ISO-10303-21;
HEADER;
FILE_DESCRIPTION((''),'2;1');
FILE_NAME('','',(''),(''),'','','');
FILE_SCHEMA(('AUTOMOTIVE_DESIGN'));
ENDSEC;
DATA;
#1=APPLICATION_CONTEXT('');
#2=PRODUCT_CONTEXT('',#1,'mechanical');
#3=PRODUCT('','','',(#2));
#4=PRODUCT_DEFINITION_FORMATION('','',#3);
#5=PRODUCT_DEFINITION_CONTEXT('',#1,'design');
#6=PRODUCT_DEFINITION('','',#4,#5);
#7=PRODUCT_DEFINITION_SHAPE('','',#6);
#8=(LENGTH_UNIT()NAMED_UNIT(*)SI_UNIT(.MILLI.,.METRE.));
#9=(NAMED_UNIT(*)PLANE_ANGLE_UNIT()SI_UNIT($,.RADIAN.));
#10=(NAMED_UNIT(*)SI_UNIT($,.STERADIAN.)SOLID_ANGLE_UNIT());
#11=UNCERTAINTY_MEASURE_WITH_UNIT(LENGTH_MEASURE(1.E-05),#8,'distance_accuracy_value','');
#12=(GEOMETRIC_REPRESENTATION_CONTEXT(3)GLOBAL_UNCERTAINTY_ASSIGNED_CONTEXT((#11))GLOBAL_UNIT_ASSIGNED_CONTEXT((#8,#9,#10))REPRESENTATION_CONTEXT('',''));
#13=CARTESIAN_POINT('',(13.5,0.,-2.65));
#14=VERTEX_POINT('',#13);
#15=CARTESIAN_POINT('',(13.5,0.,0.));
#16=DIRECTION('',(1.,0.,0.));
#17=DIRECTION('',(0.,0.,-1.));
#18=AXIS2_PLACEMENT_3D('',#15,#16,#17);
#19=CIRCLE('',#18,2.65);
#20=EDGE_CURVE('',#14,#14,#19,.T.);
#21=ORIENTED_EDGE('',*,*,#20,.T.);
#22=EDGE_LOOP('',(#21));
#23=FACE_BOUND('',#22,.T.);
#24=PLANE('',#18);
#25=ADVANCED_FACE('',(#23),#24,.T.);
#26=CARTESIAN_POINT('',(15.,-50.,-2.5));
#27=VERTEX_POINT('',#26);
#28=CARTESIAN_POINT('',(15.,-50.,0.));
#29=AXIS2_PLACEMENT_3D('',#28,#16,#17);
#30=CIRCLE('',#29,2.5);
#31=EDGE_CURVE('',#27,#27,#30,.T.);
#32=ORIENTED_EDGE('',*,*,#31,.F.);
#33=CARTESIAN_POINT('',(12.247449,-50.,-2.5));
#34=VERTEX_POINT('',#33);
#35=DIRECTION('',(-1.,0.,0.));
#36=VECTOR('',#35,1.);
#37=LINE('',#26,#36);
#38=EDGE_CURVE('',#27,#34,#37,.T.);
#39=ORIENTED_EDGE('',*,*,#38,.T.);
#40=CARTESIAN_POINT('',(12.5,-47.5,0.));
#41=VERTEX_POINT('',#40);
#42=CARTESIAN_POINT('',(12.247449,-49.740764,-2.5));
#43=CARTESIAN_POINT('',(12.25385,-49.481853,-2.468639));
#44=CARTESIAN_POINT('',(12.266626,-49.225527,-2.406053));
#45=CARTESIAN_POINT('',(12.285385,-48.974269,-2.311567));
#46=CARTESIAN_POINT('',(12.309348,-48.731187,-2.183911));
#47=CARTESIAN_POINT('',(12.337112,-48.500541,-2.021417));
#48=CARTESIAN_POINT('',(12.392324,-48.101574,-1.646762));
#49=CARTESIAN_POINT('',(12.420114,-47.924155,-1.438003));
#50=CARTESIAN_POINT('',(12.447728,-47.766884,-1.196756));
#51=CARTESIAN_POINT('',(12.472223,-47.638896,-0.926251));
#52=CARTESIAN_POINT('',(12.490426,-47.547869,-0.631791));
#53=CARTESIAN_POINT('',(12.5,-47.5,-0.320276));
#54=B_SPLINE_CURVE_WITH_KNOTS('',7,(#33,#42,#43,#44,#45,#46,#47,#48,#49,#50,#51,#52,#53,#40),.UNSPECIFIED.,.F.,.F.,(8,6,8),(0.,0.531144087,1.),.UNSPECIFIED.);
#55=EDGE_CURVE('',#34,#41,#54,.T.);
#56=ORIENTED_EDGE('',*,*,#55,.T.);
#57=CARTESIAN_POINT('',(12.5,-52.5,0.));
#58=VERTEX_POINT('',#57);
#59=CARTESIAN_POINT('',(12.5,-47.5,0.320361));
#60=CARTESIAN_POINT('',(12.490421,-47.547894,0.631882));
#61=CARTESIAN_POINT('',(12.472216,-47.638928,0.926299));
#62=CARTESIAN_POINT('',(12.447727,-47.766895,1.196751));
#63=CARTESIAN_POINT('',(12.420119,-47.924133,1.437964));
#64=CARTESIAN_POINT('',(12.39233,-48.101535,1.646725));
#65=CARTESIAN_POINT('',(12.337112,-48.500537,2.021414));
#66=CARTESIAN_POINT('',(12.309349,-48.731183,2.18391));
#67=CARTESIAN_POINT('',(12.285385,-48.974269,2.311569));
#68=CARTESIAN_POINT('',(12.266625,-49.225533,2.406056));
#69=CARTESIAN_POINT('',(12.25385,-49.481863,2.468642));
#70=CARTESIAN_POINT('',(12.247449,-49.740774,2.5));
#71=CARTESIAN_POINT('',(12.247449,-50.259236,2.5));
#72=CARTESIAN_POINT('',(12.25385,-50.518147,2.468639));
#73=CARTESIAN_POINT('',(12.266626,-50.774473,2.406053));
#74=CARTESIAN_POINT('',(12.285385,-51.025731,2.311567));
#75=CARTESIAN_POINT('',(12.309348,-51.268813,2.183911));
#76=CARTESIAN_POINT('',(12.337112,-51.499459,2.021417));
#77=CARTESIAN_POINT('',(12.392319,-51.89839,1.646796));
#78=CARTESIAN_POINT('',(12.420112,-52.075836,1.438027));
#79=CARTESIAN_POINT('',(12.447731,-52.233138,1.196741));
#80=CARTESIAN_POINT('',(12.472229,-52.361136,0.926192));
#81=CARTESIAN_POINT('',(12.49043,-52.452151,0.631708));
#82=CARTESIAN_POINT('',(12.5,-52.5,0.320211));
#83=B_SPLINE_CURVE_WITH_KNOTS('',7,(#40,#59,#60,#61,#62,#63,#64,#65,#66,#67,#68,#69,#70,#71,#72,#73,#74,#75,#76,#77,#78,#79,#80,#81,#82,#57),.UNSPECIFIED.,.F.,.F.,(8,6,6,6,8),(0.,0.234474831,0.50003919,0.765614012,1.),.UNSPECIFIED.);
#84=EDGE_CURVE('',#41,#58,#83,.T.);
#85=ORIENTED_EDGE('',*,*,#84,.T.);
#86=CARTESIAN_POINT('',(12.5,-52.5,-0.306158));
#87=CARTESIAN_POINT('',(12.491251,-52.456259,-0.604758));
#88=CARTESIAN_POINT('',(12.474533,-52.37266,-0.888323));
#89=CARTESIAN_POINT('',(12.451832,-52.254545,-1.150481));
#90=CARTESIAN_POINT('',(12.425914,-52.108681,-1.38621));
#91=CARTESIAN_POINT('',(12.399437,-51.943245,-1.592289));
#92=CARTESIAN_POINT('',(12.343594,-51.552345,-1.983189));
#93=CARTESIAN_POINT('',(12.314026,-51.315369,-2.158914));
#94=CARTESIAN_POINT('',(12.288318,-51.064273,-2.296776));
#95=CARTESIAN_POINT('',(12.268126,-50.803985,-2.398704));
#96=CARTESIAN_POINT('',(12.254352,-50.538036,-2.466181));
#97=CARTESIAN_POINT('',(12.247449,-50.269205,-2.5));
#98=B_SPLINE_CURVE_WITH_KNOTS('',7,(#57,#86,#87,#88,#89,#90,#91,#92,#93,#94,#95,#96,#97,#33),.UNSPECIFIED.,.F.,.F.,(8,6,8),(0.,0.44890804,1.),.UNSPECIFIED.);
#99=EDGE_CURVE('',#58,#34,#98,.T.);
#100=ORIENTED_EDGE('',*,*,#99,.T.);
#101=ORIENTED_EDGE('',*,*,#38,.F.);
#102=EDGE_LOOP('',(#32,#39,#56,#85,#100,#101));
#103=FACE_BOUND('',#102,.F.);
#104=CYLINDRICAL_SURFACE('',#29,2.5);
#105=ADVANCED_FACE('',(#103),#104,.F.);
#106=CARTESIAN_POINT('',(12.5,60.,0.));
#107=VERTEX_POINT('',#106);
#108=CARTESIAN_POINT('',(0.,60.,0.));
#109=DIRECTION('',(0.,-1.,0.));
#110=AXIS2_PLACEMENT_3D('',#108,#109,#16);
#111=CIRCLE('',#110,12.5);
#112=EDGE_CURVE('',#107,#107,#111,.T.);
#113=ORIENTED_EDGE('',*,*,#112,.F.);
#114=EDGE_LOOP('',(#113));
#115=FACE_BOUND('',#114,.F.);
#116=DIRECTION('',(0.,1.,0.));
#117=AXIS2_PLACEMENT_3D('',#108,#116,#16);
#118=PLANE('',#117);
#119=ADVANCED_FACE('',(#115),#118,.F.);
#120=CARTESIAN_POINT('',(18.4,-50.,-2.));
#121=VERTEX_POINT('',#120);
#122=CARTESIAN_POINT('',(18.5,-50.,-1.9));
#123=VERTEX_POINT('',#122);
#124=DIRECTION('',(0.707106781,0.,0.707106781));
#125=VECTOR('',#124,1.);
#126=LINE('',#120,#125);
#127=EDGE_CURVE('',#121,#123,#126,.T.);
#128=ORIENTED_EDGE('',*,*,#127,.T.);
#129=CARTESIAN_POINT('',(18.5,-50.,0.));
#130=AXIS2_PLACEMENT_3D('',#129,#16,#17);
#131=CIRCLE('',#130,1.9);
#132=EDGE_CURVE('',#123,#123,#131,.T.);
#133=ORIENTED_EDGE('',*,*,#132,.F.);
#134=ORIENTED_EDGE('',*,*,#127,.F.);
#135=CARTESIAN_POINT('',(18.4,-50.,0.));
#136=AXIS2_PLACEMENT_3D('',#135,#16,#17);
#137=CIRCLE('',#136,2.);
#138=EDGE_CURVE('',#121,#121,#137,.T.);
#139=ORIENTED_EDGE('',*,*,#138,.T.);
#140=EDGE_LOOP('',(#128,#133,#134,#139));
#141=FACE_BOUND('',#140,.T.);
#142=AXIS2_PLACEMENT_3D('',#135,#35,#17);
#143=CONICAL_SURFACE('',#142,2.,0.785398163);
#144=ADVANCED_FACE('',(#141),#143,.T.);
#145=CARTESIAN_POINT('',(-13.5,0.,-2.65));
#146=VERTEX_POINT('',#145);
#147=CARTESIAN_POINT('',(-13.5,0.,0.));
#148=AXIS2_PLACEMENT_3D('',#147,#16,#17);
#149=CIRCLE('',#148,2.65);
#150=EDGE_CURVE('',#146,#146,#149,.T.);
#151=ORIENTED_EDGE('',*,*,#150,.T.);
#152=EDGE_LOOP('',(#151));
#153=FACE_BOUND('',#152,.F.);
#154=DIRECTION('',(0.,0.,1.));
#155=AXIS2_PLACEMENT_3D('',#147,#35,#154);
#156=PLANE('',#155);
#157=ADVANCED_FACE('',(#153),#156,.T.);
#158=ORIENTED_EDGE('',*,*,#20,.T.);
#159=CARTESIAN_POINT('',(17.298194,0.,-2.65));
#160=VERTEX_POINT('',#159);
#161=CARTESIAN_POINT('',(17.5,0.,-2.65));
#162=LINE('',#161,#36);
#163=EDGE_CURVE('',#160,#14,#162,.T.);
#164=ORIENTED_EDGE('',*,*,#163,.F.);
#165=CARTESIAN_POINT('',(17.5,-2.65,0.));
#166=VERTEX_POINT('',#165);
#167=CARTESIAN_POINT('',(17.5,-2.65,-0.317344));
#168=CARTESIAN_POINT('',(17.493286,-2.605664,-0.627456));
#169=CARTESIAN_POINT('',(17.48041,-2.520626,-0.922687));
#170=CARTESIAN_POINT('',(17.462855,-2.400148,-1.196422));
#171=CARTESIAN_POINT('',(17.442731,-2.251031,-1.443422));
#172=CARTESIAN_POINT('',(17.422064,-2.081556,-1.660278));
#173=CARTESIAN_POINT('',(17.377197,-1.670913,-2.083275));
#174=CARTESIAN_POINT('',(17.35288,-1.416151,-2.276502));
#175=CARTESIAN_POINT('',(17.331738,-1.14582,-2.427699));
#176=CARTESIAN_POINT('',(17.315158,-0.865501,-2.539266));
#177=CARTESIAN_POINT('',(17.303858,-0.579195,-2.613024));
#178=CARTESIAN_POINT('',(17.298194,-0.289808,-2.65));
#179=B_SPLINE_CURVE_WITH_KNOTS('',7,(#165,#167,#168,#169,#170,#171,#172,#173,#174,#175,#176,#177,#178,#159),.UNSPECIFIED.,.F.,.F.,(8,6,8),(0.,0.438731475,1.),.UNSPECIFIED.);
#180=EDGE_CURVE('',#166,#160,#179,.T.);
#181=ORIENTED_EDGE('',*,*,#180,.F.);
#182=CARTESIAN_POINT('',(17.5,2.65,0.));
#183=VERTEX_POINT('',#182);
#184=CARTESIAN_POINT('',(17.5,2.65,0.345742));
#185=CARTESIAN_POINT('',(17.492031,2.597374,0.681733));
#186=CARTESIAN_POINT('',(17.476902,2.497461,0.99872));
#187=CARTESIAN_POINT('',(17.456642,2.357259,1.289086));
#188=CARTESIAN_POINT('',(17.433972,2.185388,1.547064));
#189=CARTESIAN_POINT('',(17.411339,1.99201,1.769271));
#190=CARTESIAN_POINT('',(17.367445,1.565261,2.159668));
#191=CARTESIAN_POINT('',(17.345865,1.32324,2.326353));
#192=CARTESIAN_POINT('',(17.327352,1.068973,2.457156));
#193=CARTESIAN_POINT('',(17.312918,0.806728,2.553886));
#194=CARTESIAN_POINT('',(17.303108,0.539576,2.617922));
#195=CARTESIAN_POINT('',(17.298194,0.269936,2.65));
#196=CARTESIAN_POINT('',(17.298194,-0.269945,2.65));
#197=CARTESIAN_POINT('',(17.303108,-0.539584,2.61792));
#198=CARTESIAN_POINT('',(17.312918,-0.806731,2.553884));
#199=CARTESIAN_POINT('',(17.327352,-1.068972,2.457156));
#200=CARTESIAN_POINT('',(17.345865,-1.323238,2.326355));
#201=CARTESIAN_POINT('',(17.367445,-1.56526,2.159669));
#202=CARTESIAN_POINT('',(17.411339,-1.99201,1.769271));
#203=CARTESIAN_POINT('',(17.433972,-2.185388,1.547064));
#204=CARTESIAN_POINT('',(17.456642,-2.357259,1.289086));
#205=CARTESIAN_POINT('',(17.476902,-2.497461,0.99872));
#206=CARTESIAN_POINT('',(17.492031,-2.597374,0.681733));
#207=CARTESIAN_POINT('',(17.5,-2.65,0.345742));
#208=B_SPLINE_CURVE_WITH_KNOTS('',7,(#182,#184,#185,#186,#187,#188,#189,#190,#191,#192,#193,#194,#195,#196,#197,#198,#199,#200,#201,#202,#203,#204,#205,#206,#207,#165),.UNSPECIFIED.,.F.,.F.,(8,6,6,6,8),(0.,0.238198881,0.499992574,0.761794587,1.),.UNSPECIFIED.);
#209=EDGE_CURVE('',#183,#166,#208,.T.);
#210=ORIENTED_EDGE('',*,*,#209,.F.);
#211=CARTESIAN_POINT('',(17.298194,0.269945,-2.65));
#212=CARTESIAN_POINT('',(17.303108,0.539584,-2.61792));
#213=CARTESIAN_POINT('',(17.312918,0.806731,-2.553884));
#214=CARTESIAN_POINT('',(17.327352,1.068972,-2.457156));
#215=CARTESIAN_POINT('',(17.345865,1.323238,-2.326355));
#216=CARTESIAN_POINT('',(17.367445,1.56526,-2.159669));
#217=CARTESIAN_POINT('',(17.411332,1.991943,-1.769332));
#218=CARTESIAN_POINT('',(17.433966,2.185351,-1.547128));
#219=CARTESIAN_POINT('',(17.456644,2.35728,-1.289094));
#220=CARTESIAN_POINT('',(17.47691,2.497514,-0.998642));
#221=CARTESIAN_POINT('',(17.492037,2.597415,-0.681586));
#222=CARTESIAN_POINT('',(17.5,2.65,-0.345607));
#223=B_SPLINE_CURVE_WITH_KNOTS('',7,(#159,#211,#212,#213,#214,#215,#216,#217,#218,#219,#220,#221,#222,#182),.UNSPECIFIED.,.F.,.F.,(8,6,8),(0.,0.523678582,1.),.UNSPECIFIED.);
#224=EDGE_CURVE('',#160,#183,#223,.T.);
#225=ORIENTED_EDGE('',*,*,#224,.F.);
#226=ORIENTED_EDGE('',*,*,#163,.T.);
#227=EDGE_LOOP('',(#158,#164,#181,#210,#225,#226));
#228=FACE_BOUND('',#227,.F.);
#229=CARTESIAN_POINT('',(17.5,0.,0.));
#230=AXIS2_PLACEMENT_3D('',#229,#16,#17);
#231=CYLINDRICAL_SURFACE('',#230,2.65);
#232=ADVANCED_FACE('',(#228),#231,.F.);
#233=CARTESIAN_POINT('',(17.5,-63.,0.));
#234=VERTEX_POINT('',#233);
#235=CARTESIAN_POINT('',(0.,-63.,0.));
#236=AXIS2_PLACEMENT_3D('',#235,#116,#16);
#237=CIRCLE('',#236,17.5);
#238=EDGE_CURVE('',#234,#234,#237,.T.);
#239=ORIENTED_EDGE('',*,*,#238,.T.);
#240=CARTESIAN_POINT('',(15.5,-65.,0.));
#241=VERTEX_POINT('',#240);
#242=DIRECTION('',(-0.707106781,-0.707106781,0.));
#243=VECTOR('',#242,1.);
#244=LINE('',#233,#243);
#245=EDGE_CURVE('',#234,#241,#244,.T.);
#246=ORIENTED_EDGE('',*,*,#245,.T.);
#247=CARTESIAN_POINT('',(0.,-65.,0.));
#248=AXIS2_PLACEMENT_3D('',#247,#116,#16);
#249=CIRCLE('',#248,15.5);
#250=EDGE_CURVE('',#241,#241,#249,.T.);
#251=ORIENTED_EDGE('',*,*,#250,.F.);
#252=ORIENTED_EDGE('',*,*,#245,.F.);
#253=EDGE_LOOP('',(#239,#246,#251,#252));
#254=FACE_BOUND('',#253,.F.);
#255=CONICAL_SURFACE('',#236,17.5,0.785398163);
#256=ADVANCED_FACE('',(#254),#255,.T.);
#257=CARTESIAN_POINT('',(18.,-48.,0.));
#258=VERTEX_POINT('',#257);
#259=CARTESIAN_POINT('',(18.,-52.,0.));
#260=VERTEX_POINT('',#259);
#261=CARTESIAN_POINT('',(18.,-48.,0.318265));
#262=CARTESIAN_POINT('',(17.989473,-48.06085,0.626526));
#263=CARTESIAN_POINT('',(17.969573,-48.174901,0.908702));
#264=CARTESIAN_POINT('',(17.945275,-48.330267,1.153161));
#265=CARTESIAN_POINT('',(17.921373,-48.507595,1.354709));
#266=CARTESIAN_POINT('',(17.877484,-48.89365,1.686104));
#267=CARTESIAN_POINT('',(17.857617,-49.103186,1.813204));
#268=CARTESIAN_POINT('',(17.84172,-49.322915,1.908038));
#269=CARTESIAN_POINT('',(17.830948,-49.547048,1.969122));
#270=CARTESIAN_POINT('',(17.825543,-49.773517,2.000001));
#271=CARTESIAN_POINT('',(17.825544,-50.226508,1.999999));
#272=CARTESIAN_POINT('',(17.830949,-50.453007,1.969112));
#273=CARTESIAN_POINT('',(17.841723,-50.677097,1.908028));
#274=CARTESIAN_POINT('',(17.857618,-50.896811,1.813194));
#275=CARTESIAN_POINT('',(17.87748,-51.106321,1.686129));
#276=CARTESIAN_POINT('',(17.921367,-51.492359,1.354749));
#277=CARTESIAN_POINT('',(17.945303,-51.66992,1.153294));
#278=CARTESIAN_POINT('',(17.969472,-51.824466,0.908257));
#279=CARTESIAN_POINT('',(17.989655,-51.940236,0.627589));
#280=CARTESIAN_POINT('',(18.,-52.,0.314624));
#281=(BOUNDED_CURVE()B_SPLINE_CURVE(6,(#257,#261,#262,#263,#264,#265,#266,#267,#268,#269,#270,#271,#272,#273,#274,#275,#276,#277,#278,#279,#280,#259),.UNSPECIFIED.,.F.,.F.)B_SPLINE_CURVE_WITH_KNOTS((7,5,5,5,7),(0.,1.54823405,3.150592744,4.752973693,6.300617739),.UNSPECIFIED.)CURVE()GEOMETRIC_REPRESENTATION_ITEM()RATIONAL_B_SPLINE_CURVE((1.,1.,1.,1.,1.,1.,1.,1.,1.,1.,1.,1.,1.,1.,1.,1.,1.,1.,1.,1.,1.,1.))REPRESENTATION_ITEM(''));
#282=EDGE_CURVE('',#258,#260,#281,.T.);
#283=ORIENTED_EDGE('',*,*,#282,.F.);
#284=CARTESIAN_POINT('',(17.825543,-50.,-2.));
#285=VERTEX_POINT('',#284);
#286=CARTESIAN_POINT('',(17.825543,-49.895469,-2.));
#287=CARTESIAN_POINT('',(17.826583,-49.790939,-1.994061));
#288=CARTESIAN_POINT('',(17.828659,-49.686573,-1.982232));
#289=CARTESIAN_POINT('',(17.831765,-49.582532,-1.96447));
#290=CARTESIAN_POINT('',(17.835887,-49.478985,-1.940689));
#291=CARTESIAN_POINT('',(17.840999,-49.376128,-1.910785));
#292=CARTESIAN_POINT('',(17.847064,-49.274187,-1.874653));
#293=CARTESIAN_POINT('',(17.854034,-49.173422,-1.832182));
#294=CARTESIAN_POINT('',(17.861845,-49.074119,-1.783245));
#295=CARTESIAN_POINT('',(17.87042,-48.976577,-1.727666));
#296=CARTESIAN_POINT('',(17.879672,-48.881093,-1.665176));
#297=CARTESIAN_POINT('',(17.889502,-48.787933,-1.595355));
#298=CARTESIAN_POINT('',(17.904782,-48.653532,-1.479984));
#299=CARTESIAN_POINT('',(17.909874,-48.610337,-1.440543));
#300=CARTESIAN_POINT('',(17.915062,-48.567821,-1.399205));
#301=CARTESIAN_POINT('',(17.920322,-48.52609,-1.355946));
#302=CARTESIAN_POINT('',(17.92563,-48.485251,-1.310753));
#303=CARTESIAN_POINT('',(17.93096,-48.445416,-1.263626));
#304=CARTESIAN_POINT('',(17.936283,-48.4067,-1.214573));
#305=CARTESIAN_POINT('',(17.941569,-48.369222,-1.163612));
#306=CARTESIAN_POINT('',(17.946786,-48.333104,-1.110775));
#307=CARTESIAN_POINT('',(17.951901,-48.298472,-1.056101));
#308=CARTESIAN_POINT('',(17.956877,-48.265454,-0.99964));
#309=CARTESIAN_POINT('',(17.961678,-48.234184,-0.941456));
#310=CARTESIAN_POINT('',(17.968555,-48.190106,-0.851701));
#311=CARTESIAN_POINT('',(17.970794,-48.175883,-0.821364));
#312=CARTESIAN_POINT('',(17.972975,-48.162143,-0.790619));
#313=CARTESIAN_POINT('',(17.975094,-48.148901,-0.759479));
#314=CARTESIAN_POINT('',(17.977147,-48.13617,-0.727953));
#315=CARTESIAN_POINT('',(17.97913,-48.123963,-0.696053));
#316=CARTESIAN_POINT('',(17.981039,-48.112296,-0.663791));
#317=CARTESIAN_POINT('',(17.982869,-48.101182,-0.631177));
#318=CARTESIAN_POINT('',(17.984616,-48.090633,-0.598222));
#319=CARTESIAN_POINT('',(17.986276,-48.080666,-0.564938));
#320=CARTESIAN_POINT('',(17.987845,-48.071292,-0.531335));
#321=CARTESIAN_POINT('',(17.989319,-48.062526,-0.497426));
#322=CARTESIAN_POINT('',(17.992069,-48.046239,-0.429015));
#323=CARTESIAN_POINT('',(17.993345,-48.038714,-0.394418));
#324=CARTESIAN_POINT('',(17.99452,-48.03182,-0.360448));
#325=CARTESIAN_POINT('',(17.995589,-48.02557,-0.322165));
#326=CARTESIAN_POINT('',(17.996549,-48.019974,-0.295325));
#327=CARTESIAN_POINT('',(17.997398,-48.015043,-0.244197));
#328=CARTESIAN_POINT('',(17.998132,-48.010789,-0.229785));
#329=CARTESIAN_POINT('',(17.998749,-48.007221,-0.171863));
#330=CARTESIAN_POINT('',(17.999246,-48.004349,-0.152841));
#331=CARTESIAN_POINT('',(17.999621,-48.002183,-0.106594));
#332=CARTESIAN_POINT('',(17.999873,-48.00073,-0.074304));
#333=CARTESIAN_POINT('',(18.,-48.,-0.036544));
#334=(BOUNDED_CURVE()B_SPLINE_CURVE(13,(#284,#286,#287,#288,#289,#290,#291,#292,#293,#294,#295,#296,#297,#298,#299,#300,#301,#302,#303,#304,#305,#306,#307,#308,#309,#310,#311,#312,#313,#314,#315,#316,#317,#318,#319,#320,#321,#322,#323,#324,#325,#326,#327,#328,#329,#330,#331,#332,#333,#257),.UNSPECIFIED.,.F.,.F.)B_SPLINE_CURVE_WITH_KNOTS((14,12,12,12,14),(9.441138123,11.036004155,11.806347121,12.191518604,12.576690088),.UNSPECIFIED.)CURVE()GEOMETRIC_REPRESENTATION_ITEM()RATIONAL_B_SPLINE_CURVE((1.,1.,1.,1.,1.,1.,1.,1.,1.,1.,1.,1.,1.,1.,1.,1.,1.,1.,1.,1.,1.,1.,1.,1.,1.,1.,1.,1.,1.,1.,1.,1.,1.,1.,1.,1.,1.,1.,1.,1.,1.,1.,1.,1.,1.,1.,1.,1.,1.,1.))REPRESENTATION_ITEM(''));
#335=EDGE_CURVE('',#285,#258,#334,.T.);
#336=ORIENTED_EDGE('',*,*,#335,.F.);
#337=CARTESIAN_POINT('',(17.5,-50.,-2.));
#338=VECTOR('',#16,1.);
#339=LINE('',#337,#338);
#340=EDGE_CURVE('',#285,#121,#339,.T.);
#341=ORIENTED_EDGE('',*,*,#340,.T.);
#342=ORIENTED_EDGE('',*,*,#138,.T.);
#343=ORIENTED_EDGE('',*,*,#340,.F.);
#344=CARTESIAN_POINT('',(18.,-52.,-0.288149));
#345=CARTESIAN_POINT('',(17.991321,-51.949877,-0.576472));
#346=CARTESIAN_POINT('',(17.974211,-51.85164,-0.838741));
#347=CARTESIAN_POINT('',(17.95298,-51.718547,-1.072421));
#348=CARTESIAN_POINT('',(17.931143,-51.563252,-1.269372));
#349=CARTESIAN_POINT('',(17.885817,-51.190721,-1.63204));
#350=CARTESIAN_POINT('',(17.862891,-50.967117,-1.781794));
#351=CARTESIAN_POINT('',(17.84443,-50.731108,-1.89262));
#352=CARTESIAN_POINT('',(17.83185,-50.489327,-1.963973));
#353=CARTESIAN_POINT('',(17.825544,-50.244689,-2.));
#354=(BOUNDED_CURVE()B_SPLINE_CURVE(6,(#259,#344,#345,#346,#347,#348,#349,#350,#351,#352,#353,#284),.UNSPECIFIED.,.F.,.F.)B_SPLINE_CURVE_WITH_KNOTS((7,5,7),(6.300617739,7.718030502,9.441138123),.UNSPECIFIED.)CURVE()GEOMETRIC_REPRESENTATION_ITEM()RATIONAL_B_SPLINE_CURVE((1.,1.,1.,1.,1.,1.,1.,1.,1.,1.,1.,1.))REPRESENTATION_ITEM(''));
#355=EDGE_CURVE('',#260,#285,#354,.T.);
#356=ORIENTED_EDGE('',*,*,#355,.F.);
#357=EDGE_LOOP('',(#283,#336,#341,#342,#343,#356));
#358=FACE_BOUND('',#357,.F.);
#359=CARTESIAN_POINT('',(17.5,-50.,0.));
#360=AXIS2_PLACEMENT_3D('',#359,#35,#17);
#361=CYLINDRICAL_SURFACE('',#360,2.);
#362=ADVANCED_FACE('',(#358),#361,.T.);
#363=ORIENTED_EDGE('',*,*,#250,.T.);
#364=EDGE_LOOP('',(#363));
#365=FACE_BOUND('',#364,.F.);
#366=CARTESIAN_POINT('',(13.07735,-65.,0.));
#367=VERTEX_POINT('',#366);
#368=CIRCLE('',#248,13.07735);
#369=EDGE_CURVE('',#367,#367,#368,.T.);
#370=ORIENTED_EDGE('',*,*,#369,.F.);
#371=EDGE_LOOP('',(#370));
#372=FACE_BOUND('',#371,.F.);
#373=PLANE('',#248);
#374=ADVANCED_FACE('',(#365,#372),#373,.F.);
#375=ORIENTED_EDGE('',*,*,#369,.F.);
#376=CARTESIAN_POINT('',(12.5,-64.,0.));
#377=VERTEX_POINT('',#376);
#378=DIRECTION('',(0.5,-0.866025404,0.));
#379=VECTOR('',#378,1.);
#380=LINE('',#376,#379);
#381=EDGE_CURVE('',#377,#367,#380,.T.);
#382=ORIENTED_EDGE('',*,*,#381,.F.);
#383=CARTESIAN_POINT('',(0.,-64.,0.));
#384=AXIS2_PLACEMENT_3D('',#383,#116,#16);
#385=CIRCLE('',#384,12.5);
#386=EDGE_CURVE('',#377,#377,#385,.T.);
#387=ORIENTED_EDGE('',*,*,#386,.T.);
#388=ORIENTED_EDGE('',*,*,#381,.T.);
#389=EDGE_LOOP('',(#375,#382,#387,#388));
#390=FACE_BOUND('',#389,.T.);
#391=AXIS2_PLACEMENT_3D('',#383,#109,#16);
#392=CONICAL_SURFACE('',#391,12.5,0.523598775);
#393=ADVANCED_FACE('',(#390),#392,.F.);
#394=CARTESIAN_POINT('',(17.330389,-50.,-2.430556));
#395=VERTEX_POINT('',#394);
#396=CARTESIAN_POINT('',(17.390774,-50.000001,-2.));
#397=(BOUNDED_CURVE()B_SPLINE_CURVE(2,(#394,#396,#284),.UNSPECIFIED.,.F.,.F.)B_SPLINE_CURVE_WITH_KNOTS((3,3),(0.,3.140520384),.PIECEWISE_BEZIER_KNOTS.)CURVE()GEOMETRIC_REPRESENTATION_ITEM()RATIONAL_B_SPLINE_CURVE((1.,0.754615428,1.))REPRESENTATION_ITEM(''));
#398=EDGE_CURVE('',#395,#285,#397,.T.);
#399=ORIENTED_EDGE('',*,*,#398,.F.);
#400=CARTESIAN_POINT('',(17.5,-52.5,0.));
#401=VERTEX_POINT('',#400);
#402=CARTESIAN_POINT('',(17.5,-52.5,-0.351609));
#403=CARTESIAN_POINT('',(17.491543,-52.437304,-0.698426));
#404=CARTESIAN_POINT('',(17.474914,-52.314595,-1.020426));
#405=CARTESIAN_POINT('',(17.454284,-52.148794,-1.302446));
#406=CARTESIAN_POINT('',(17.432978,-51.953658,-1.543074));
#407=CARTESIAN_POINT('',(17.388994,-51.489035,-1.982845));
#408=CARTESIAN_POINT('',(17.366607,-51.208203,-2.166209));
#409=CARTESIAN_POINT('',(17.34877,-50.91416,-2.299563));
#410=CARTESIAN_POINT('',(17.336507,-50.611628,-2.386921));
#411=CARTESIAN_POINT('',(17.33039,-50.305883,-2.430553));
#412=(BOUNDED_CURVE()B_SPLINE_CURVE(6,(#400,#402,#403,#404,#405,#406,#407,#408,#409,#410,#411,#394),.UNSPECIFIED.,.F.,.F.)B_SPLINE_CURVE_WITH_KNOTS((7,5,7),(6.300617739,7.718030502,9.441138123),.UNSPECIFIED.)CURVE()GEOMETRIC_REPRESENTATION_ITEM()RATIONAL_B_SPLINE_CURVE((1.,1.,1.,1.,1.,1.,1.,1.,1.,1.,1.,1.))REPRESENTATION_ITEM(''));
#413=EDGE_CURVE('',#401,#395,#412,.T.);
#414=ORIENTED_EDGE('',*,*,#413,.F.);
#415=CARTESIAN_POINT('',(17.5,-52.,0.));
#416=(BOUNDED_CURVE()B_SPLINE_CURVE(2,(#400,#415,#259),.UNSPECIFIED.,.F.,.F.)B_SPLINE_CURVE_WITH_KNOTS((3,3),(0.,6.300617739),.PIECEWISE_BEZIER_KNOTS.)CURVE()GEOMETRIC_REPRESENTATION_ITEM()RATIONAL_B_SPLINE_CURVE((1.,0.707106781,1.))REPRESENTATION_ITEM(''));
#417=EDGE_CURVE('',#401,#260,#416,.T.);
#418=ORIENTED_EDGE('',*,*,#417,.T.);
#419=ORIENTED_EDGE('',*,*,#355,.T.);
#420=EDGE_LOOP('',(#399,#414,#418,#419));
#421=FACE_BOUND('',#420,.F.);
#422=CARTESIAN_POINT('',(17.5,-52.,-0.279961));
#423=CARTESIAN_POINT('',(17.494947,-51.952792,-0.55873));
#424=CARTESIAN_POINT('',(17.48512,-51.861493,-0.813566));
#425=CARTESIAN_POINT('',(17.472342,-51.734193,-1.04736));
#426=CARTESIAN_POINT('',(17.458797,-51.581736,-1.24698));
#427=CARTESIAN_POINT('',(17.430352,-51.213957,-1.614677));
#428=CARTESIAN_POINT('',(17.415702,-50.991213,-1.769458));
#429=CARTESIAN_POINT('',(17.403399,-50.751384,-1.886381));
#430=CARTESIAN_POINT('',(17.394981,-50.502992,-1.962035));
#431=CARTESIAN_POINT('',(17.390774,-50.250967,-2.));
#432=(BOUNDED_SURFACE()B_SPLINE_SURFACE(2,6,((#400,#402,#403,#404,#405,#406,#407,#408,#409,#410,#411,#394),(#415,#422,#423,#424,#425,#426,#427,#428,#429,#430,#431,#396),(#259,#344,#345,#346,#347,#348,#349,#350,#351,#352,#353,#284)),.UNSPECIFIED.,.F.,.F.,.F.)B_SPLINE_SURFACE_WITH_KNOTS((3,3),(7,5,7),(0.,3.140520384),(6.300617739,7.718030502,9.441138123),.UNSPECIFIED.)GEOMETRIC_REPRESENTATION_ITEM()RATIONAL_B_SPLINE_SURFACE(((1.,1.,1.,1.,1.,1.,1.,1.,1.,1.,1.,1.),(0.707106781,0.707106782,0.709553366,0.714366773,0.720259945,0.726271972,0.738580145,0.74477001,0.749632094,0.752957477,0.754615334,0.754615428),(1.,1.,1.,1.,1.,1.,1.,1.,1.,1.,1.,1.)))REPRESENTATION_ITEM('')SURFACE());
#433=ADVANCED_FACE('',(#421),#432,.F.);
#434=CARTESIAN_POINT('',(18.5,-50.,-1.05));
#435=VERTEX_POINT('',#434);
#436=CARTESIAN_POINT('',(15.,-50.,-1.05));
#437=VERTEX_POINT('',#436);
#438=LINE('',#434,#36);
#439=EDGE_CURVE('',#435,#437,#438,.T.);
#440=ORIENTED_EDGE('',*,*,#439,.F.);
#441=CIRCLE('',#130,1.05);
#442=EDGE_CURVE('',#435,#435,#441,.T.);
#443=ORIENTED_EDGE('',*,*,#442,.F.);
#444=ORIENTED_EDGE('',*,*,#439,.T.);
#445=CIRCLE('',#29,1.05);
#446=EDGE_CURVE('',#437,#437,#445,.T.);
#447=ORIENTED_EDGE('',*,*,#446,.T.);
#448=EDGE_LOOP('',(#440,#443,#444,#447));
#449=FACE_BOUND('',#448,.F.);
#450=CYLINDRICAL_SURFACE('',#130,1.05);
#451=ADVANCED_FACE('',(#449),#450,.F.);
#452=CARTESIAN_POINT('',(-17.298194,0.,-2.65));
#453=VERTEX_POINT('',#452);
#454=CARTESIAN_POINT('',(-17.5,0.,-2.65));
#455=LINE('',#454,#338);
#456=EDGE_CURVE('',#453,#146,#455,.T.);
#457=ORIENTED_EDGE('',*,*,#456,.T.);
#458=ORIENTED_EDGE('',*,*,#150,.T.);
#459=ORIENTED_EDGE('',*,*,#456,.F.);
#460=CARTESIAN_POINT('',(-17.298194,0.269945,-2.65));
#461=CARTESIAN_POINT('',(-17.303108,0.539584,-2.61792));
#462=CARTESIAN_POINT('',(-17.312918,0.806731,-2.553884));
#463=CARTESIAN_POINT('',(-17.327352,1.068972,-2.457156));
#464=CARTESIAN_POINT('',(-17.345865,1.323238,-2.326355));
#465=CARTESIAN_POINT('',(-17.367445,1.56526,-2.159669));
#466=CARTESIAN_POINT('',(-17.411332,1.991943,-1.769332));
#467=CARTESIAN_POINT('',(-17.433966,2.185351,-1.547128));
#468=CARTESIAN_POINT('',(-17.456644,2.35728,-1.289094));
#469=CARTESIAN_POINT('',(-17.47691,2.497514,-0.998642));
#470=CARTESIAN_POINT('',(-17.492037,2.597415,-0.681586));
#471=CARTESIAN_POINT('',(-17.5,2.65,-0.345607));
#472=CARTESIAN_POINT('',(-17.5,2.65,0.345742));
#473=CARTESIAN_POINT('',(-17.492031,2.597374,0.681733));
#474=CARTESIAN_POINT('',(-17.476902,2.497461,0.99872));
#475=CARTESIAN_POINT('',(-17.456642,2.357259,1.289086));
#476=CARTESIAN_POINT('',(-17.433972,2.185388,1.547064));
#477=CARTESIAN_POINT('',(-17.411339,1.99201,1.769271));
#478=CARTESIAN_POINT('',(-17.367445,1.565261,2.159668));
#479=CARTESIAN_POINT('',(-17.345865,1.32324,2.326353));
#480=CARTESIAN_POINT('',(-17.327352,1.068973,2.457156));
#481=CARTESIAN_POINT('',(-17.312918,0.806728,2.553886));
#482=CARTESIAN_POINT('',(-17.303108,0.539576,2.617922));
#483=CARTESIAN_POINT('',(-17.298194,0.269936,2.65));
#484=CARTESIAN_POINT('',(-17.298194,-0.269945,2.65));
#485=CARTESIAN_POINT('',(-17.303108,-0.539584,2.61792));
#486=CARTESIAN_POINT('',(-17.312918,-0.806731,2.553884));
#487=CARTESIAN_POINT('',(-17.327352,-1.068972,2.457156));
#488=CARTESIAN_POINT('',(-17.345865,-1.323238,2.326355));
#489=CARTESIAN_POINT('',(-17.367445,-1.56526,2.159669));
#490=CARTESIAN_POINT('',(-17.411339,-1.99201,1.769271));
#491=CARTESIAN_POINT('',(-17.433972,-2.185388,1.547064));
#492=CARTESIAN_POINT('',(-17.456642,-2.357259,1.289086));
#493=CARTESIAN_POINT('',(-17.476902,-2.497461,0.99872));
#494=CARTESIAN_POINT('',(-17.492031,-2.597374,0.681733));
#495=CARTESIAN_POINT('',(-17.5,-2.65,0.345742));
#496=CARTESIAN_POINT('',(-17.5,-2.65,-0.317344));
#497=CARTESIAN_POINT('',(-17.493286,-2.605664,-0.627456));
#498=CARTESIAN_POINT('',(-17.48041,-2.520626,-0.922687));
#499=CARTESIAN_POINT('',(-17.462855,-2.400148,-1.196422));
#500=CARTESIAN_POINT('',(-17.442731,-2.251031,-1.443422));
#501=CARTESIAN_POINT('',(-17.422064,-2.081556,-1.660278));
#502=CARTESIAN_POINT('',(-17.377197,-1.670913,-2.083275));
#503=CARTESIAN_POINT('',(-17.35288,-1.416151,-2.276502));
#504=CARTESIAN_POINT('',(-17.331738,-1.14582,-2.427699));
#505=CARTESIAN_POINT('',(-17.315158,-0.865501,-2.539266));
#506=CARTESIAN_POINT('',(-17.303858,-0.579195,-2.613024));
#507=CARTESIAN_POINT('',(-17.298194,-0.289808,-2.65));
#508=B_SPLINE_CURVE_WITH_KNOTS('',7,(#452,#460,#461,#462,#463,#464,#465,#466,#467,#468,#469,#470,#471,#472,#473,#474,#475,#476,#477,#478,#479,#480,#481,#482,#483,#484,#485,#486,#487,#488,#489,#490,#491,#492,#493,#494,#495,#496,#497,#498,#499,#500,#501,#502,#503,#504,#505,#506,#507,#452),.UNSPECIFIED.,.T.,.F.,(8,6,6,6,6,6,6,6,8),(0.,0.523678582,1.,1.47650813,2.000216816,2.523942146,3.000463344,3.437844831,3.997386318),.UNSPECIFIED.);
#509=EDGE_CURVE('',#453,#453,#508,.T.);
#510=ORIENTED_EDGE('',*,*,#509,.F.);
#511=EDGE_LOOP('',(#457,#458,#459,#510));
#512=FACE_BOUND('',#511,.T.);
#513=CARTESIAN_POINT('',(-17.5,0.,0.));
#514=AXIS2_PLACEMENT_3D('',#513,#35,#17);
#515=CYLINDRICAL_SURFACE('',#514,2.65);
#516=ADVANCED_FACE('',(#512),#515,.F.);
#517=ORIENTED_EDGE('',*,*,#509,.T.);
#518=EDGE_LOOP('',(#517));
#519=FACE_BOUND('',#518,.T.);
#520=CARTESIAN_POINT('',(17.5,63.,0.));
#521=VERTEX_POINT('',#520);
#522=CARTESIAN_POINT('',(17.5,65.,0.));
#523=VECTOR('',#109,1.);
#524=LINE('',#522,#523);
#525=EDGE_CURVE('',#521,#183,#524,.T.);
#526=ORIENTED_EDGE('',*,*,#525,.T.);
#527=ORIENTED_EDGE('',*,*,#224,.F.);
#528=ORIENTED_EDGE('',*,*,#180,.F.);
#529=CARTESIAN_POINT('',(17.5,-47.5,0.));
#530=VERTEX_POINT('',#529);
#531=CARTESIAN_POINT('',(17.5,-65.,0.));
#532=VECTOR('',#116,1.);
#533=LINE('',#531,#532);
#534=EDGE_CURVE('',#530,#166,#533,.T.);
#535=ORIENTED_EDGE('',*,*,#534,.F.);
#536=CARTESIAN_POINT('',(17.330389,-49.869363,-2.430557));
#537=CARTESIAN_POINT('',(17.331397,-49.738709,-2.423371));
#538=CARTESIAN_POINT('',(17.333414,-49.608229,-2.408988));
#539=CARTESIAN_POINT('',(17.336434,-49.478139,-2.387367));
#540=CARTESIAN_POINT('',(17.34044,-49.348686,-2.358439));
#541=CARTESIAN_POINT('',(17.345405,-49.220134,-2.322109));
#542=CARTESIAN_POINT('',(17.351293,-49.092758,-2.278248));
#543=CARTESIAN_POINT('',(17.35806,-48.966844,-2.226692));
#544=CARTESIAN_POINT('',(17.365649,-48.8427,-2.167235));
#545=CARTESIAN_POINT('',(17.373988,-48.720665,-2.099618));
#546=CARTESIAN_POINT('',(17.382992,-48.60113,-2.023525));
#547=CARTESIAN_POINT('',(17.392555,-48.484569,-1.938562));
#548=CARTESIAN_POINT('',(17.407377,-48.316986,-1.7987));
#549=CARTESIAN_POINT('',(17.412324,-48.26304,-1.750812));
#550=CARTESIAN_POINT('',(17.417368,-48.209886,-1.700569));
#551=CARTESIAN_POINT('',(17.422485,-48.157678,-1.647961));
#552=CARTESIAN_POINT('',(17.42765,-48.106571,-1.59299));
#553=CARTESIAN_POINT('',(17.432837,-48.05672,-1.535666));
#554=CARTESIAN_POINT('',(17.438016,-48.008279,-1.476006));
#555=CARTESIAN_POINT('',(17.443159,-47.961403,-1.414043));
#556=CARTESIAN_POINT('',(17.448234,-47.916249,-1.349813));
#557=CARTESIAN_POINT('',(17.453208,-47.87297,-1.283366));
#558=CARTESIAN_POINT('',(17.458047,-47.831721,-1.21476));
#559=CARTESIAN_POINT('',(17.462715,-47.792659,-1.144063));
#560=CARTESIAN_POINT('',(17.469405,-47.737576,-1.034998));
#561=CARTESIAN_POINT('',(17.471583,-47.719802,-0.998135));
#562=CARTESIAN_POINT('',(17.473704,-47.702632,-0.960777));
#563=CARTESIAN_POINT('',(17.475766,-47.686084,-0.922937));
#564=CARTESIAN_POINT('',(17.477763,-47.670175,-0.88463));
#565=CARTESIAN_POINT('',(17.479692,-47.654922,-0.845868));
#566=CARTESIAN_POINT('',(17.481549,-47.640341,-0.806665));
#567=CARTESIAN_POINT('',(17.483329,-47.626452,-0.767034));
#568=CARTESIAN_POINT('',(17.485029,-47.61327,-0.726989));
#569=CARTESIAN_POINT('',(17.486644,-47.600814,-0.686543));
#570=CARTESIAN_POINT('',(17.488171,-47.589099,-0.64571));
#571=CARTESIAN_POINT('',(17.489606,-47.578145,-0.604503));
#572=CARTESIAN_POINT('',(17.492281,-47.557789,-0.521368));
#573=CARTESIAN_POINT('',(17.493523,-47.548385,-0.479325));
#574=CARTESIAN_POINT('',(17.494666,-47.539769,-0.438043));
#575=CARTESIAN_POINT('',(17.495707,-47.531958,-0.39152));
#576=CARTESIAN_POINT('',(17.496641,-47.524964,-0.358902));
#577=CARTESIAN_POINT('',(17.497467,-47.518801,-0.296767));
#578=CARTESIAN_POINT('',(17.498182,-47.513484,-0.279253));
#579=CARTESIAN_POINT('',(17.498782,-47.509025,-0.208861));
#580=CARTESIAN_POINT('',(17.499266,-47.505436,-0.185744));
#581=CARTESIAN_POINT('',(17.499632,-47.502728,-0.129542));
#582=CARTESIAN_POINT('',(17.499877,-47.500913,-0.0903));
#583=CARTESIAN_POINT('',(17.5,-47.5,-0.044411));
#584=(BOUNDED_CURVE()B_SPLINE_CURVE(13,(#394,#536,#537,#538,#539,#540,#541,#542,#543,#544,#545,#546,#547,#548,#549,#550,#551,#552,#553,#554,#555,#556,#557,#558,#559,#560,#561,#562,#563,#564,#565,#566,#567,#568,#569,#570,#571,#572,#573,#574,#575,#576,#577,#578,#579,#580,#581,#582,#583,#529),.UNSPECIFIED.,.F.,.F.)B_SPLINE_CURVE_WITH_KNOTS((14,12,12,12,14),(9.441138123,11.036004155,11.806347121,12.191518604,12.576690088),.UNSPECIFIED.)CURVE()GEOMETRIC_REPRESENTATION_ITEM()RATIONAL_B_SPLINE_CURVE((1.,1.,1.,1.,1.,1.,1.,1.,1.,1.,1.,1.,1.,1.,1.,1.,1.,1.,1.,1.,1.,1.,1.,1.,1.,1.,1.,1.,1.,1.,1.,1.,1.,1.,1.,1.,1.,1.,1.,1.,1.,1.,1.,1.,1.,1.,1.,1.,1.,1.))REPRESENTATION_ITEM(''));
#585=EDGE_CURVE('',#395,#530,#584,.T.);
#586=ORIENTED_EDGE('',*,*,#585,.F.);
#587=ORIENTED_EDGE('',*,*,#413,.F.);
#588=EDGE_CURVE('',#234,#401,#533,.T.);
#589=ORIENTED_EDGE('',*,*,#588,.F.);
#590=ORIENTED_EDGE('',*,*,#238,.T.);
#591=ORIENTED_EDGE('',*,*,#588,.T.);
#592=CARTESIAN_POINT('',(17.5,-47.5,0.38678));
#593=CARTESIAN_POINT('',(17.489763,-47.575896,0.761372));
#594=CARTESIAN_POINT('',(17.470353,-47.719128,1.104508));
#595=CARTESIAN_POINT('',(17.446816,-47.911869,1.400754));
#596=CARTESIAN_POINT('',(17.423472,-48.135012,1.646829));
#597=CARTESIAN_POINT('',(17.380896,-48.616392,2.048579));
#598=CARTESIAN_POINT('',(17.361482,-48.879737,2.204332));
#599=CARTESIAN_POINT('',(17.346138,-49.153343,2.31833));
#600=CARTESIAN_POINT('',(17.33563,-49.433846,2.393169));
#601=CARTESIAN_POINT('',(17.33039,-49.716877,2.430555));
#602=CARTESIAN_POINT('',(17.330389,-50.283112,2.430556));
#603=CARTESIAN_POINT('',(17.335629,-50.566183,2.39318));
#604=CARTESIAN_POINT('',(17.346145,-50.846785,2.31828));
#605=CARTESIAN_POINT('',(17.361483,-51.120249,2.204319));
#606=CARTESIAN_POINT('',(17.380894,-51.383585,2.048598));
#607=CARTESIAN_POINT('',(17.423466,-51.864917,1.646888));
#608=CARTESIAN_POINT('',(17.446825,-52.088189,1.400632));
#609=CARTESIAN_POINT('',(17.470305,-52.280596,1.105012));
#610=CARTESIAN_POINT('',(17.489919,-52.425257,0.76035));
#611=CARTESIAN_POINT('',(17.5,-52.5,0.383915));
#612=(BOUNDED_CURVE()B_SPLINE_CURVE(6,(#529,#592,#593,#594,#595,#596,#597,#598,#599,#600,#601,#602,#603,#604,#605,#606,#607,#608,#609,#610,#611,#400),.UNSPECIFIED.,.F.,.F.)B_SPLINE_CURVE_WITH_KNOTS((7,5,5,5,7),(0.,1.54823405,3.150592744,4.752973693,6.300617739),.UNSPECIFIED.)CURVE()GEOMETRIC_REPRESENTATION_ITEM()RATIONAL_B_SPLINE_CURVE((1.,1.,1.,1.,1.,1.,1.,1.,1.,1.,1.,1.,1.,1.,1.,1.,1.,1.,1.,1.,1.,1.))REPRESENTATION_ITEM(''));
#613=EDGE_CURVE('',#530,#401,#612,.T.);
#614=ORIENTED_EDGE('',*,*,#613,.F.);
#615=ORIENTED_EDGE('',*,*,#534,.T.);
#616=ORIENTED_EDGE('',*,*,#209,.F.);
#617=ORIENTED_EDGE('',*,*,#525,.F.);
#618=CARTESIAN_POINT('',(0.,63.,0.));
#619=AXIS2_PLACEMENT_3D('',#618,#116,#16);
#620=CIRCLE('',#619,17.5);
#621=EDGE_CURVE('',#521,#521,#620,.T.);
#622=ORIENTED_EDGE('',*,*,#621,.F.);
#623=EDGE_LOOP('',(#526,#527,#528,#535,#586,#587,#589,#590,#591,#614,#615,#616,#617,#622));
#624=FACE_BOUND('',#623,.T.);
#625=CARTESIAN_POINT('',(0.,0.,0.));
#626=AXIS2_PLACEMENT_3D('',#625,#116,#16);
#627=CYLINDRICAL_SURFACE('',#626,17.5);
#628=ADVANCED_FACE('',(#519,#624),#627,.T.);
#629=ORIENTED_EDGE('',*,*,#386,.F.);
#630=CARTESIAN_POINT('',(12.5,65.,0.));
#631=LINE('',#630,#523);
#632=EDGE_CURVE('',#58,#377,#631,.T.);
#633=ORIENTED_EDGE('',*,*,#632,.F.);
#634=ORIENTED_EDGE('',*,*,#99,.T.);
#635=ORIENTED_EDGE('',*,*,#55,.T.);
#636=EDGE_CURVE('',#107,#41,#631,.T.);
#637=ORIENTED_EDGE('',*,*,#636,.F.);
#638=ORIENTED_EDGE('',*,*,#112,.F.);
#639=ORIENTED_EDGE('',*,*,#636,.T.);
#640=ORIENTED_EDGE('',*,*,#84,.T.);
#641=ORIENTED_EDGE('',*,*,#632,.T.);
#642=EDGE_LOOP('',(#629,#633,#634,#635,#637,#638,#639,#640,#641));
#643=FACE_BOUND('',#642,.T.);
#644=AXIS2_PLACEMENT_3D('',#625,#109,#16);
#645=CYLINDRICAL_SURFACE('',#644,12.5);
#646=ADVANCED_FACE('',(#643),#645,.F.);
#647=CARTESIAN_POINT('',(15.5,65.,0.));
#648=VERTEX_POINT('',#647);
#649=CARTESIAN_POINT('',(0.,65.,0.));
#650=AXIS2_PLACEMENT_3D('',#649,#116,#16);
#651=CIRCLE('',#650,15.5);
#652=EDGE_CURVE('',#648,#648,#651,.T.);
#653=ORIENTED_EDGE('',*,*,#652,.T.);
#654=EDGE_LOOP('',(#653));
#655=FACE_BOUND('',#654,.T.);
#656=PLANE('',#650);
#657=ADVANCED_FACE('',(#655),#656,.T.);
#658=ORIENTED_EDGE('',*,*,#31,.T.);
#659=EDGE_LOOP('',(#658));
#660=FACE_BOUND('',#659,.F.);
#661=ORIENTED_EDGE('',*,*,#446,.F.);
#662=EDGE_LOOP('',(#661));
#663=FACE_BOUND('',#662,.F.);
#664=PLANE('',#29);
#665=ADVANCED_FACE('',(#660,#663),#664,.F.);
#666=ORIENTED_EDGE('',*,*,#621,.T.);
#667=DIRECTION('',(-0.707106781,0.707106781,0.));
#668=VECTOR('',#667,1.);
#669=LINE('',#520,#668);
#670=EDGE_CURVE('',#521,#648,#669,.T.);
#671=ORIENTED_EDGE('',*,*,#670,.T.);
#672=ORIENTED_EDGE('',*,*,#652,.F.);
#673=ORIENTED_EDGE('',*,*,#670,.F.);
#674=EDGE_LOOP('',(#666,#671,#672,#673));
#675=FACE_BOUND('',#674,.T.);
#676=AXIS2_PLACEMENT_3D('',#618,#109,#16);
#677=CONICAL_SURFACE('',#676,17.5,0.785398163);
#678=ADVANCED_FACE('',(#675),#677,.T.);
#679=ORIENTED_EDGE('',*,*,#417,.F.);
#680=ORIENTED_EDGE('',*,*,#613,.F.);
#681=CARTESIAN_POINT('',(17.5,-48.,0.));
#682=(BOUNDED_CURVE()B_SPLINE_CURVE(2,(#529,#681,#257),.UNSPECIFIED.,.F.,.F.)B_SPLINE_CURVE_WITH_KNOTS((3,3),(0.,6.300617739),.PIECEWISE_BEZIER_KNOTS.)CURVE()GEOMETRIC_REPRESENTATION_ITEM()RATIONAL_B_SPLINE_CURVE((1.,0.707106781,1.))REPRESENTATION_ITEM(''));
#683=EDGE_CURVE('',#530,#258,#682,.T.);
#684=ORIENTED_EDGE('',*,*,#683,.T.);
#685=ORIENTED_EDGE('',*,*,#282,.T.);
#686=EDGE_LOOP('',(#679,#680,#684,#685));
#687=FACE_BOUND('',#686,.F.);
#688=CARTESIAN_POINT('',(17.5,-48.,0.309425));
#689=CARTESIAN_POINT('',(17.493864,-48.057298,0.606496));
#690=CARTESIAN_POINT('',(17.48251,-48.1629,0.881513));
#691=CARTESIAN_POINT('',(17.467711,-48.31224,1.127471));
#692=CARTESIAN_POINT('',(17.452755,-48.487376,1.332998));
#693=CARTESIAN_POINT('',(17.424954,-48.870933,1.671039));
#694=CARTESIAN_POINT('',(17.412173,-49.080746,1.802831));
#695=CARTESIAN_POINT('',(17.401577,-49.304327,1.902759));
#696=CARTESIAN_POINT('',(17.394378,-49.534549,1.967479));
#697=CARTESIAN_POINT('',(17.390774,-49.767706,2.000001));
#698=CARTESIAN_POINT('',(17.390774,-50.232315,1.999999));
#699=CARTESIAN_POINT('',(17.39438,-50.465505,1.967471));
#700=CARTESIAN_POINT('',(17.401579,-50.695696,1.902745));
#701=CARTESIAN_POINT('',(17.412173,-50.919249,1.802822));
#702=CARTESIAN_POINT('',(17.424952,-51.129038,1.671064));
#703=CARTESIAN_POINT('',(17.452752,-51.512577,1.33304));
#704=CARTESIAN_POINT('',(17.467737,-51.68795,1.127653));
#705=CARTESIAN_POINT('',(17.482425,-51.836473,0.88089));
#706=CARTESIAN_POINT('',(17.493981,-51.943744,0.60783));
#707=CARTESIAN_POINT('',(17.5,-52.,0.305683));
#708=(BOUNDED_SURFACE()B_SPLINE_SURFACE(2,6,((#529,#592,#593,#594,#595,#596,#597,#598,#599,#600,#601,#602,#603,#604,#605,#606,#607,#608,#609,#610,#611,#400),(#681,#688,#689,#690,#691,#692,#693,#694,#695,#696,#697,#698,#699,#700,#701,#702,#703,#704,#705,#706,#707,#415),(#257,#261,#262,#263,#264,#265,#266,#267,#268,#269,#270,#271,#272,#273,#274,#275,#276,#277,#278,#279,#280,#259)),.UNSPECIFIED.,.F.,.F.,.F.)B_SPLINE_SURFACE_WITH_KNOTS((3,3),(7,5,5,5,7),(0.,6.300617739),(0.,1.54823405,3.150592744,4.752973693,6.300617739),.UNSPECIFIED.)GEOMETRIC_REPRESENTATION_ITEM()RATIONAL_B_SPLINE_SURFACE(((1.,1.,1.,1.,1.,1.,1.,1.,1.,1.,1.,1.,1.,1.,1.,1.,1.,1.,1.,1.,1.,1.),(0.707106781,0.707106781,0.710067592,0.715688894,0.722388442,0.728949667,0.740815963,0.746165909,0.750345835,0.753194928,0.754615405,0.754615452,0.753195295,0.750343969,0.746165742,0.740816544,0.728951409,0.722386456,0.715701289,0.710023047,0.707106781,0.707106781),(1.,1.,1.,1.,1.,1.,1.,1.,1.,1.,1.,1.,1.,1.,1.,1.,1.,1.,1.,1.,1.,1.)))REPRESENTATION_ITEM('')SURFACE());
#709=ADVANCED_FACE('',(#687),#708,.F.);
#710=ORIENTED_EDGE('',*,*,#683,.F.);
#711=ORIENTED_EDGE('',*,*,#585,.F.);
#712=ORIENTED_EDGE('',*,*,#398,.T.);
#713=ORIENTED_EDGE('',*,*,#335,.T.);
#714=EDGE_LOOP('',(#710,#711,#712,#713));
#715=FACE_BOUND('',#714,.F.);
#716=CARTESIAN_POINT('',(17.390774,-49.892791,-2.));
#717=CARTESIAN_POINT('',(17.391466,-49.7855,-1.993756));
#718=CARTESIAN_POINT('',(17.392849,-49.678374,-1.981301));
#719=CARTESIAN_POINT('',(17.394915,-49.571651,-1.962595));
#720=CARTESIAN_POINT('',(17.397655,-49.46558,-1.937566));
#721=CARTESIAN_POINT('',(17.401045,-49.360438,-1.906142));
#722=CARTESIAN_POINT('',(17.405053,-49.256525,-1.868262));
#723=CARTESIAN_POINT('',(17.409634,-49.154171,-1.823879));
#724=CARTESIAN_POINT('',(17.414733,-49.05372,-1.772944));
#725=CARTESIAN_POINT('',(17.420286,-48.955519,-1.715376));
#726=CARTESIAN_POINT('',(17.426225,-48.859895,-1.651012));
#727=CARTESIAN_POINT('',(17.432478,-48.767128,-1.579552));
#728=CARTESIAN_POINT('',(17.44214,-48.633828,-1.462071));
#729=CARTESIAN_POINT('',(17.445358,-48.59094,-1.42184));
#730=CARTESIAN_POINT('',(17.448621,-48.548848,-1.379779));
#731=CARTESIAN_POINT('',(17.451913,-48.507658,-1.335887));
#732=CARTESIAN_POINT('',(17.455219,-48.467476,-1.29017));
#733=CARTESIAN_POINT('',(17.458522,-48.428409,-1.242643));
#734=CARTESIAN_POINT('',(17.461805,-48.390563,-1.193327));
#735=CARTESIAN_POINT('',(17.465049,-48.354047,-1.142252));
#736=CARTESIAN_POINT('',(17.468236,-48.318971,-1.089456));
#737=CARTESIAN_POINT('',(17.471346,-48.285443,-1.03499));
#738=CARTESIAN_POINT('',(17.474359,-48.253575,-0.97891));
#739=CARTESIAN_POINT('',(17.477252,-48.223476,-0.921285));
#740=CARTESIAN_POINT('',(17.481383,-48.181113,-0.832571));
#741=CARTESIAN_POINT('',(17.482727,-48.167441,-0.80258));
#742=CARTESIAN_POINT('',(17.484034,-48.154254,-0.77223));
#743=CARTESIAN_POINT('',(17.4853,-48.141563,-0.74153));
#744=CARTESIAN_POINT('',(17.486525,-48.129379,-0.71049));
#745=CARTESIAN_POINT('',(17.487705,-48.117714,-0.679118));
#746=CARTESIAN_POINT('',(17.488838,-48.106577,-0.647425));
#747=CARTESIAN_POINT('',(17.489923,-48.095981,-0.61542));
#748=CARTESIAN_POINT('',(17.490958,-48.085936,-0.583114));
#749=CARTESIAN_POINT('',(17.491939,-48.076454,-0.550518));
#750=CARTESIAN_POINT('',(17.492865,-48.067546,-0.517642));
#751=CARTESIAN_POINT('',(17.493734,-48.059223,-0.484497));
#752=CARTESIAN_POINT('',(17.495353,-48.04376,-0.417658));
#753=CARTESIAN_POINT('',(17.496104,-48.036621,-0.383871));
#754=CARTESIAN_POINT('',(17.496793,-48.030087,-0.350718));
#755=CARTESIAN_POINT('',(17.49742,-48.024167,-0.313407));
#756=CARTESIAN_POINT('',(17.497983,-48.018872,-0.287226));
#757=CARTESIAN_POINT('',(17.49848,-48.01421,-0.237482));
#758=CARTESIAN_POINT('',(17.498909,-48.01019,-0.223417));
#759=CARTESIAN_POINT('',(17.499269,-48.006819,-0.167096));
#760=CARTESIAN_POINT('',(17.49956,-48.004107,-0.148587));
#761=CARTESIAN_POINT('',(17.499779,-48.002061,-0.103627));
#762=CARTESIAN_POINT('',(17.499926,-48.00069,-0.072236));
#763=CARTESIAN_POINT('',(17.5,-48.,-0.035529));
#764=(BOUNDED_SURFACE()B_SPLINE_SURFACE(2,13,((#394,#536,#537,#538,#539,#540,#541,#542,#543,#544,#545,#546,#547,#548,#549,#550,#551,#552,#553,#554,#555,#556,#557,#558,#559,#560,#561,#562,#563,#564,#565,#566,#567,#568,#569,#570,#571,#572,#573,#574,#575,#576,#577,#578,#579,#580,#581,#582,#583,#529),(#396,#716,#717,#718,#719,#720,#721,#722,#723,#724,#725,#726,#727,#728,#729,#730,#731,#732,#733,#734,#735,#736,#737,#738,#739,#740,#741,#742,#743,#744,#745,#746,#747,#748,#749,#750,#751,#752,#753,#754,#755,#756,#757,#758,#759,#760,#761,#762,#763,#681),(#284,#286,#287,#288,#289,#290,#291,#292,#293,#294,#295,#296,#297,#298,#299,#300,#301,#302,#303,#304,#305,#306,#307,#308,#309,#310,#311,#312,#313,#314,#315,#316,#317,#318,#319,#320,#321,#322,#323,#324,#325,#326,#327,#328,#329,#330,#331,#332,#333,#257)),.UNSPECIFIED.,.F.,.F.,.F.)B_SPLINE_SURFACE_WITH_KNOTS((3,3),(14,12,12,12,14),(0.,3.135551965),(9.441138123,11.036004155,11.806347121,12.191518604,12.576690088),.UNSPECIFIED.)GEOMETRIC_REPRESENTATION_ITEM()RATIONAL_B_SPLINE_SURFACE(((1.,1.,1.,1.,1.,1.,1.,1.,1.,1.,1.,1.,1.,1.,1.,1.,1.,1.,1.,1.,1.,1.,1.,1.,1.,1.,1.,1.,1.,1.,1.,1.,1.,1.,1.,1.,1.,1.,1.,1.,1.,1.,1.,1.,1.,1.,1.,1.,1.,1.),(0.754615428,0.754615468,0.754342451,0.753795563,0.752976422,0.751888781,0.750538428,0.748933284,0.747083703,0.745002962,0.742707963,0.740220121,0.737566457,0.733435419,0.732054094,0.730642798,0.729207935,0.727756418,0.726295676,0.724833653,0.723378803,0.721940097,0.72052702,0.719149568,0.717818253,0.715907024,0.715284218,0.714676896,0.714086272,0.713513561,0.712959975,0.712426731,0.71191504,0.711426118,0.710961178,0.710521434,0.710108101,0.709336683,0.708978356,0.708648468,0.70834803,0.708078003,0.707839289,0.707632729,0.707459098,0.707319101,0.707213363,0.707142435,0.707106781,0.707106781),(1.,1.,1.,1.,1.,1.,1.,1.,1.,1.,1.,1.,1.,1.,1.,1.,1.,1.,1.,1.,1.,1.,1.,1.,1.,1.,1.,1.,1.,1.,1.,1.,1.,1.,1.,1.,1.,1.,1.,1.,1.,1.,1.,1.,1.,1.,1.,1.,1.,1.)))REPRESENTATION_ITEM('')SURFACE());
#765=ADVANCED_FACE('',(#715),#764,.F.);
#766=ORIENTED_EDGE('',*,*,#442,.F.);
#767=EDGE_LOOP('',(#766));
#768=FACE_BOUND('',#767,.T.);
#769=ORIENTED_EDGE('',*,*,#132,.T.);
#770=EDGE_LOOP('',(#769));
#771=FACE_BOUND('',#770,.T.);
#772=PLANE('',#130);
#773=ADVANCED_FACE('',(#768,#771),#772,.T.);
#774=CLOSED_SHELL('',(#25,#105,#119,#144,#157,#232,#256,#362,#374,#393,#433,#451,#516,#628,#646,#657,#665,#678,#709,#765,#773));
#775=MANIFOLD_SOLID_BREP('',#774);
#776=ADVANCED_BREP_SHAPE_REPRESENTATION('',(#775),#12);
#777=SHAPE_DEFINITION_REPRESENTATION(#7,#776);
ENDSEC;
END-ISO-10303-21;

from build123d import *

# Parameters (mm, degrees)
ESQUISSE1_R             = 17.5
ESQUISSE1_R_2           = 12.5
BOSS_EXTRU_1_DEPTH      = 65
ESQUISSE3_R             = 2.65
ENL_V_MAT_EXTRU_1_DEPTH = 4
ESQUISSE4_R             = 2
BOSS_EXTRU_2_DEPTH      = 1
BOSS_EXTRU_2_DEPTH_BACK = 2
ENL_V_MAT_EXTRU_2_REACH = 38
ESQUISSE5_R             = 1.05
ENL_V_START             = -3.5
ESQUISSE6_R             = 2.5
ENL_V_MAT_EXTRU_3_DEPTH = 5
CONG_1_R                = 0.5
CHANFREIN1_SIZE         = 0.1
ESQUISSE7_R             = 17.5
BOSS_EXTRU_3_DEPTH      = 5
CHANFREIN2_SIZE         = 2
CHANFREIN3_SIZE         = 1
CHANFREIN3_SIZE2        = 0.577350269


with BuildPart() as part:
    # Esquisse1 → Boss.-Extru.1 (new body, symmetric)
    with BuildSketch(Plane(origin=(0, 0, 0), x_dir=(1, 0, 0), z_dir=(0, 1, 0))):
        Circle(ESQUISSE1_R)
        Circle(ESQUISSE1_R_2, mode=Mode.SUBTRACT)
    extrude(amount=BOSS_EXTRU_1_DEPTH, both=True)

    # Esquisse3 → Enlèv. mat.-Extru.1 (cut)
    with BuildSketch(Plane(origin=(17.5, 0, 0), x_dir=(0, 0, -1), z_dir=(1, 0, 0))):
        Circle(ESQUISSE3_R)
    enl_v_mat_extru_1 = extrude(amount=-ENL_V_MAT_EXTRU_1_DEPTH, mode=Mode.SUBTRACT)

    # Symétrie1: Enlèv. mat.-Extru.1 across plane
    add(enl_v_mat_extru_1.mirror(Plane(origin=(0, 0, 0), x_dir=(0, 0, 1), z_dir=(1, 0, 0))), mode=Mode.SUBTRACT)

    # Esquisse4 → Boss.-Extru.2 (add, two sides)
    with BuildSketch(Plane(origin=(17.5, 0, 0), x_dir=(0, 0, -1), z_dir=(1, 0, 0))) as boss_extru_2_sk:
        with Locations((0, -50)):
            Circle(ESQUISSE4_R)
    extrude(amount=BOSS_EXTRU_2_DEPTH)
    extrude(boss_extru_2_sk.sketch, amount=-BOSS_EXTRU_2_DEPTH_BACK)

    # Esquisse5 → Enlèv. mat.-Extru.2 (cut, up to next)
    with BuildSketch(Plane(origin=(18.5, 0, 0), x_dir=(0, 0, -1), z_dir=(1, 0, 0)), mode=Mode.PRIVATE) as enl_v_mat_extru_2_sk1:
        with Locations((0, -50)):
            Circle(ESQUISSE5_R)
    enl_v_mat_extru_2_tool1 = extrude(enl_v_mat_extru_2_sk1.sketch, amount=-ENL_V_MAT_EXTRU_2_REACH, mode=Mode.PRIVATE) & part.part
    add(enl_v_mat_extru_2_tool1.solids().sort_by_distance((18.5, -50, 0))[0], mode=Mode.SUBTRACT)

    # Esquisse6 → Enlèv. mat.-Extru.3 (cut)
    with BuildSketch(Plane(origin=(18.5, 0, 0), x_dir=(0, 0, -1), z_dir=(1, 0, 0)).offset(ENL_V_START)):
        with Locations((0, -50)):
            Circle(ESQUISSE6_R)
    extrude(amount=-ENL_V_MAT_EXTRU_3_DEPTH, mode=Mode.SUBTRACT)

    # Congé1
    cong_1_edges = [part.edges().sort_by_distance(p)[0] for p in [
        (17.385338651, -50, 2),
    ]]
    fillet(cong_1_edges, radius=CONG_1_R)

    # Chanfrein1
    chanfrein1_edges = [part.edges().sort_by_distance(p)[0] for p in [
        (18.5, -50, 2),
    ]]
    chamfer(chanfrein1_edges, length=CHANFREIN1_SIZE)

    # Esquisse7 → Boss.-Extru.3 (add)
    with BuildSketch(Plane(origin=(0, 65, 0), x_dir=(1, 0, 0), z_dir=(0, 1, 0))):
        Circle(ESQUISSE7_R)
    extrude(amount=-BOSS_EXTRU_3_DEPTH)

    # Chanfrein2
    chanfrein2_edges = [part.edges().sort_by_distance(p)[0] for p in [
        (-17.5, -65, 0),
        (-17.5, 65, 0),
    ]]
    chamfer(chanfrein2_edges, length=CHANFREIN2_SIZE)

    # Chanfrein3
    chanfrein3_edges = [part.edges().sort_by_distance(p)[0] for p in [
        (-12.5, -65, 0),
    ]]
    chanfrein3_side = [part.faces().sort_by_distance(p)[0] for p in [
        (-12.5, -2.5, 0),
    ]]
    chamfer(chanfrein3_edges, length=CHANFREIN3_SIZE, length2=CHANFREIN3_SIZE2, reference=chanfrein3_side[0])


solid = part.part
